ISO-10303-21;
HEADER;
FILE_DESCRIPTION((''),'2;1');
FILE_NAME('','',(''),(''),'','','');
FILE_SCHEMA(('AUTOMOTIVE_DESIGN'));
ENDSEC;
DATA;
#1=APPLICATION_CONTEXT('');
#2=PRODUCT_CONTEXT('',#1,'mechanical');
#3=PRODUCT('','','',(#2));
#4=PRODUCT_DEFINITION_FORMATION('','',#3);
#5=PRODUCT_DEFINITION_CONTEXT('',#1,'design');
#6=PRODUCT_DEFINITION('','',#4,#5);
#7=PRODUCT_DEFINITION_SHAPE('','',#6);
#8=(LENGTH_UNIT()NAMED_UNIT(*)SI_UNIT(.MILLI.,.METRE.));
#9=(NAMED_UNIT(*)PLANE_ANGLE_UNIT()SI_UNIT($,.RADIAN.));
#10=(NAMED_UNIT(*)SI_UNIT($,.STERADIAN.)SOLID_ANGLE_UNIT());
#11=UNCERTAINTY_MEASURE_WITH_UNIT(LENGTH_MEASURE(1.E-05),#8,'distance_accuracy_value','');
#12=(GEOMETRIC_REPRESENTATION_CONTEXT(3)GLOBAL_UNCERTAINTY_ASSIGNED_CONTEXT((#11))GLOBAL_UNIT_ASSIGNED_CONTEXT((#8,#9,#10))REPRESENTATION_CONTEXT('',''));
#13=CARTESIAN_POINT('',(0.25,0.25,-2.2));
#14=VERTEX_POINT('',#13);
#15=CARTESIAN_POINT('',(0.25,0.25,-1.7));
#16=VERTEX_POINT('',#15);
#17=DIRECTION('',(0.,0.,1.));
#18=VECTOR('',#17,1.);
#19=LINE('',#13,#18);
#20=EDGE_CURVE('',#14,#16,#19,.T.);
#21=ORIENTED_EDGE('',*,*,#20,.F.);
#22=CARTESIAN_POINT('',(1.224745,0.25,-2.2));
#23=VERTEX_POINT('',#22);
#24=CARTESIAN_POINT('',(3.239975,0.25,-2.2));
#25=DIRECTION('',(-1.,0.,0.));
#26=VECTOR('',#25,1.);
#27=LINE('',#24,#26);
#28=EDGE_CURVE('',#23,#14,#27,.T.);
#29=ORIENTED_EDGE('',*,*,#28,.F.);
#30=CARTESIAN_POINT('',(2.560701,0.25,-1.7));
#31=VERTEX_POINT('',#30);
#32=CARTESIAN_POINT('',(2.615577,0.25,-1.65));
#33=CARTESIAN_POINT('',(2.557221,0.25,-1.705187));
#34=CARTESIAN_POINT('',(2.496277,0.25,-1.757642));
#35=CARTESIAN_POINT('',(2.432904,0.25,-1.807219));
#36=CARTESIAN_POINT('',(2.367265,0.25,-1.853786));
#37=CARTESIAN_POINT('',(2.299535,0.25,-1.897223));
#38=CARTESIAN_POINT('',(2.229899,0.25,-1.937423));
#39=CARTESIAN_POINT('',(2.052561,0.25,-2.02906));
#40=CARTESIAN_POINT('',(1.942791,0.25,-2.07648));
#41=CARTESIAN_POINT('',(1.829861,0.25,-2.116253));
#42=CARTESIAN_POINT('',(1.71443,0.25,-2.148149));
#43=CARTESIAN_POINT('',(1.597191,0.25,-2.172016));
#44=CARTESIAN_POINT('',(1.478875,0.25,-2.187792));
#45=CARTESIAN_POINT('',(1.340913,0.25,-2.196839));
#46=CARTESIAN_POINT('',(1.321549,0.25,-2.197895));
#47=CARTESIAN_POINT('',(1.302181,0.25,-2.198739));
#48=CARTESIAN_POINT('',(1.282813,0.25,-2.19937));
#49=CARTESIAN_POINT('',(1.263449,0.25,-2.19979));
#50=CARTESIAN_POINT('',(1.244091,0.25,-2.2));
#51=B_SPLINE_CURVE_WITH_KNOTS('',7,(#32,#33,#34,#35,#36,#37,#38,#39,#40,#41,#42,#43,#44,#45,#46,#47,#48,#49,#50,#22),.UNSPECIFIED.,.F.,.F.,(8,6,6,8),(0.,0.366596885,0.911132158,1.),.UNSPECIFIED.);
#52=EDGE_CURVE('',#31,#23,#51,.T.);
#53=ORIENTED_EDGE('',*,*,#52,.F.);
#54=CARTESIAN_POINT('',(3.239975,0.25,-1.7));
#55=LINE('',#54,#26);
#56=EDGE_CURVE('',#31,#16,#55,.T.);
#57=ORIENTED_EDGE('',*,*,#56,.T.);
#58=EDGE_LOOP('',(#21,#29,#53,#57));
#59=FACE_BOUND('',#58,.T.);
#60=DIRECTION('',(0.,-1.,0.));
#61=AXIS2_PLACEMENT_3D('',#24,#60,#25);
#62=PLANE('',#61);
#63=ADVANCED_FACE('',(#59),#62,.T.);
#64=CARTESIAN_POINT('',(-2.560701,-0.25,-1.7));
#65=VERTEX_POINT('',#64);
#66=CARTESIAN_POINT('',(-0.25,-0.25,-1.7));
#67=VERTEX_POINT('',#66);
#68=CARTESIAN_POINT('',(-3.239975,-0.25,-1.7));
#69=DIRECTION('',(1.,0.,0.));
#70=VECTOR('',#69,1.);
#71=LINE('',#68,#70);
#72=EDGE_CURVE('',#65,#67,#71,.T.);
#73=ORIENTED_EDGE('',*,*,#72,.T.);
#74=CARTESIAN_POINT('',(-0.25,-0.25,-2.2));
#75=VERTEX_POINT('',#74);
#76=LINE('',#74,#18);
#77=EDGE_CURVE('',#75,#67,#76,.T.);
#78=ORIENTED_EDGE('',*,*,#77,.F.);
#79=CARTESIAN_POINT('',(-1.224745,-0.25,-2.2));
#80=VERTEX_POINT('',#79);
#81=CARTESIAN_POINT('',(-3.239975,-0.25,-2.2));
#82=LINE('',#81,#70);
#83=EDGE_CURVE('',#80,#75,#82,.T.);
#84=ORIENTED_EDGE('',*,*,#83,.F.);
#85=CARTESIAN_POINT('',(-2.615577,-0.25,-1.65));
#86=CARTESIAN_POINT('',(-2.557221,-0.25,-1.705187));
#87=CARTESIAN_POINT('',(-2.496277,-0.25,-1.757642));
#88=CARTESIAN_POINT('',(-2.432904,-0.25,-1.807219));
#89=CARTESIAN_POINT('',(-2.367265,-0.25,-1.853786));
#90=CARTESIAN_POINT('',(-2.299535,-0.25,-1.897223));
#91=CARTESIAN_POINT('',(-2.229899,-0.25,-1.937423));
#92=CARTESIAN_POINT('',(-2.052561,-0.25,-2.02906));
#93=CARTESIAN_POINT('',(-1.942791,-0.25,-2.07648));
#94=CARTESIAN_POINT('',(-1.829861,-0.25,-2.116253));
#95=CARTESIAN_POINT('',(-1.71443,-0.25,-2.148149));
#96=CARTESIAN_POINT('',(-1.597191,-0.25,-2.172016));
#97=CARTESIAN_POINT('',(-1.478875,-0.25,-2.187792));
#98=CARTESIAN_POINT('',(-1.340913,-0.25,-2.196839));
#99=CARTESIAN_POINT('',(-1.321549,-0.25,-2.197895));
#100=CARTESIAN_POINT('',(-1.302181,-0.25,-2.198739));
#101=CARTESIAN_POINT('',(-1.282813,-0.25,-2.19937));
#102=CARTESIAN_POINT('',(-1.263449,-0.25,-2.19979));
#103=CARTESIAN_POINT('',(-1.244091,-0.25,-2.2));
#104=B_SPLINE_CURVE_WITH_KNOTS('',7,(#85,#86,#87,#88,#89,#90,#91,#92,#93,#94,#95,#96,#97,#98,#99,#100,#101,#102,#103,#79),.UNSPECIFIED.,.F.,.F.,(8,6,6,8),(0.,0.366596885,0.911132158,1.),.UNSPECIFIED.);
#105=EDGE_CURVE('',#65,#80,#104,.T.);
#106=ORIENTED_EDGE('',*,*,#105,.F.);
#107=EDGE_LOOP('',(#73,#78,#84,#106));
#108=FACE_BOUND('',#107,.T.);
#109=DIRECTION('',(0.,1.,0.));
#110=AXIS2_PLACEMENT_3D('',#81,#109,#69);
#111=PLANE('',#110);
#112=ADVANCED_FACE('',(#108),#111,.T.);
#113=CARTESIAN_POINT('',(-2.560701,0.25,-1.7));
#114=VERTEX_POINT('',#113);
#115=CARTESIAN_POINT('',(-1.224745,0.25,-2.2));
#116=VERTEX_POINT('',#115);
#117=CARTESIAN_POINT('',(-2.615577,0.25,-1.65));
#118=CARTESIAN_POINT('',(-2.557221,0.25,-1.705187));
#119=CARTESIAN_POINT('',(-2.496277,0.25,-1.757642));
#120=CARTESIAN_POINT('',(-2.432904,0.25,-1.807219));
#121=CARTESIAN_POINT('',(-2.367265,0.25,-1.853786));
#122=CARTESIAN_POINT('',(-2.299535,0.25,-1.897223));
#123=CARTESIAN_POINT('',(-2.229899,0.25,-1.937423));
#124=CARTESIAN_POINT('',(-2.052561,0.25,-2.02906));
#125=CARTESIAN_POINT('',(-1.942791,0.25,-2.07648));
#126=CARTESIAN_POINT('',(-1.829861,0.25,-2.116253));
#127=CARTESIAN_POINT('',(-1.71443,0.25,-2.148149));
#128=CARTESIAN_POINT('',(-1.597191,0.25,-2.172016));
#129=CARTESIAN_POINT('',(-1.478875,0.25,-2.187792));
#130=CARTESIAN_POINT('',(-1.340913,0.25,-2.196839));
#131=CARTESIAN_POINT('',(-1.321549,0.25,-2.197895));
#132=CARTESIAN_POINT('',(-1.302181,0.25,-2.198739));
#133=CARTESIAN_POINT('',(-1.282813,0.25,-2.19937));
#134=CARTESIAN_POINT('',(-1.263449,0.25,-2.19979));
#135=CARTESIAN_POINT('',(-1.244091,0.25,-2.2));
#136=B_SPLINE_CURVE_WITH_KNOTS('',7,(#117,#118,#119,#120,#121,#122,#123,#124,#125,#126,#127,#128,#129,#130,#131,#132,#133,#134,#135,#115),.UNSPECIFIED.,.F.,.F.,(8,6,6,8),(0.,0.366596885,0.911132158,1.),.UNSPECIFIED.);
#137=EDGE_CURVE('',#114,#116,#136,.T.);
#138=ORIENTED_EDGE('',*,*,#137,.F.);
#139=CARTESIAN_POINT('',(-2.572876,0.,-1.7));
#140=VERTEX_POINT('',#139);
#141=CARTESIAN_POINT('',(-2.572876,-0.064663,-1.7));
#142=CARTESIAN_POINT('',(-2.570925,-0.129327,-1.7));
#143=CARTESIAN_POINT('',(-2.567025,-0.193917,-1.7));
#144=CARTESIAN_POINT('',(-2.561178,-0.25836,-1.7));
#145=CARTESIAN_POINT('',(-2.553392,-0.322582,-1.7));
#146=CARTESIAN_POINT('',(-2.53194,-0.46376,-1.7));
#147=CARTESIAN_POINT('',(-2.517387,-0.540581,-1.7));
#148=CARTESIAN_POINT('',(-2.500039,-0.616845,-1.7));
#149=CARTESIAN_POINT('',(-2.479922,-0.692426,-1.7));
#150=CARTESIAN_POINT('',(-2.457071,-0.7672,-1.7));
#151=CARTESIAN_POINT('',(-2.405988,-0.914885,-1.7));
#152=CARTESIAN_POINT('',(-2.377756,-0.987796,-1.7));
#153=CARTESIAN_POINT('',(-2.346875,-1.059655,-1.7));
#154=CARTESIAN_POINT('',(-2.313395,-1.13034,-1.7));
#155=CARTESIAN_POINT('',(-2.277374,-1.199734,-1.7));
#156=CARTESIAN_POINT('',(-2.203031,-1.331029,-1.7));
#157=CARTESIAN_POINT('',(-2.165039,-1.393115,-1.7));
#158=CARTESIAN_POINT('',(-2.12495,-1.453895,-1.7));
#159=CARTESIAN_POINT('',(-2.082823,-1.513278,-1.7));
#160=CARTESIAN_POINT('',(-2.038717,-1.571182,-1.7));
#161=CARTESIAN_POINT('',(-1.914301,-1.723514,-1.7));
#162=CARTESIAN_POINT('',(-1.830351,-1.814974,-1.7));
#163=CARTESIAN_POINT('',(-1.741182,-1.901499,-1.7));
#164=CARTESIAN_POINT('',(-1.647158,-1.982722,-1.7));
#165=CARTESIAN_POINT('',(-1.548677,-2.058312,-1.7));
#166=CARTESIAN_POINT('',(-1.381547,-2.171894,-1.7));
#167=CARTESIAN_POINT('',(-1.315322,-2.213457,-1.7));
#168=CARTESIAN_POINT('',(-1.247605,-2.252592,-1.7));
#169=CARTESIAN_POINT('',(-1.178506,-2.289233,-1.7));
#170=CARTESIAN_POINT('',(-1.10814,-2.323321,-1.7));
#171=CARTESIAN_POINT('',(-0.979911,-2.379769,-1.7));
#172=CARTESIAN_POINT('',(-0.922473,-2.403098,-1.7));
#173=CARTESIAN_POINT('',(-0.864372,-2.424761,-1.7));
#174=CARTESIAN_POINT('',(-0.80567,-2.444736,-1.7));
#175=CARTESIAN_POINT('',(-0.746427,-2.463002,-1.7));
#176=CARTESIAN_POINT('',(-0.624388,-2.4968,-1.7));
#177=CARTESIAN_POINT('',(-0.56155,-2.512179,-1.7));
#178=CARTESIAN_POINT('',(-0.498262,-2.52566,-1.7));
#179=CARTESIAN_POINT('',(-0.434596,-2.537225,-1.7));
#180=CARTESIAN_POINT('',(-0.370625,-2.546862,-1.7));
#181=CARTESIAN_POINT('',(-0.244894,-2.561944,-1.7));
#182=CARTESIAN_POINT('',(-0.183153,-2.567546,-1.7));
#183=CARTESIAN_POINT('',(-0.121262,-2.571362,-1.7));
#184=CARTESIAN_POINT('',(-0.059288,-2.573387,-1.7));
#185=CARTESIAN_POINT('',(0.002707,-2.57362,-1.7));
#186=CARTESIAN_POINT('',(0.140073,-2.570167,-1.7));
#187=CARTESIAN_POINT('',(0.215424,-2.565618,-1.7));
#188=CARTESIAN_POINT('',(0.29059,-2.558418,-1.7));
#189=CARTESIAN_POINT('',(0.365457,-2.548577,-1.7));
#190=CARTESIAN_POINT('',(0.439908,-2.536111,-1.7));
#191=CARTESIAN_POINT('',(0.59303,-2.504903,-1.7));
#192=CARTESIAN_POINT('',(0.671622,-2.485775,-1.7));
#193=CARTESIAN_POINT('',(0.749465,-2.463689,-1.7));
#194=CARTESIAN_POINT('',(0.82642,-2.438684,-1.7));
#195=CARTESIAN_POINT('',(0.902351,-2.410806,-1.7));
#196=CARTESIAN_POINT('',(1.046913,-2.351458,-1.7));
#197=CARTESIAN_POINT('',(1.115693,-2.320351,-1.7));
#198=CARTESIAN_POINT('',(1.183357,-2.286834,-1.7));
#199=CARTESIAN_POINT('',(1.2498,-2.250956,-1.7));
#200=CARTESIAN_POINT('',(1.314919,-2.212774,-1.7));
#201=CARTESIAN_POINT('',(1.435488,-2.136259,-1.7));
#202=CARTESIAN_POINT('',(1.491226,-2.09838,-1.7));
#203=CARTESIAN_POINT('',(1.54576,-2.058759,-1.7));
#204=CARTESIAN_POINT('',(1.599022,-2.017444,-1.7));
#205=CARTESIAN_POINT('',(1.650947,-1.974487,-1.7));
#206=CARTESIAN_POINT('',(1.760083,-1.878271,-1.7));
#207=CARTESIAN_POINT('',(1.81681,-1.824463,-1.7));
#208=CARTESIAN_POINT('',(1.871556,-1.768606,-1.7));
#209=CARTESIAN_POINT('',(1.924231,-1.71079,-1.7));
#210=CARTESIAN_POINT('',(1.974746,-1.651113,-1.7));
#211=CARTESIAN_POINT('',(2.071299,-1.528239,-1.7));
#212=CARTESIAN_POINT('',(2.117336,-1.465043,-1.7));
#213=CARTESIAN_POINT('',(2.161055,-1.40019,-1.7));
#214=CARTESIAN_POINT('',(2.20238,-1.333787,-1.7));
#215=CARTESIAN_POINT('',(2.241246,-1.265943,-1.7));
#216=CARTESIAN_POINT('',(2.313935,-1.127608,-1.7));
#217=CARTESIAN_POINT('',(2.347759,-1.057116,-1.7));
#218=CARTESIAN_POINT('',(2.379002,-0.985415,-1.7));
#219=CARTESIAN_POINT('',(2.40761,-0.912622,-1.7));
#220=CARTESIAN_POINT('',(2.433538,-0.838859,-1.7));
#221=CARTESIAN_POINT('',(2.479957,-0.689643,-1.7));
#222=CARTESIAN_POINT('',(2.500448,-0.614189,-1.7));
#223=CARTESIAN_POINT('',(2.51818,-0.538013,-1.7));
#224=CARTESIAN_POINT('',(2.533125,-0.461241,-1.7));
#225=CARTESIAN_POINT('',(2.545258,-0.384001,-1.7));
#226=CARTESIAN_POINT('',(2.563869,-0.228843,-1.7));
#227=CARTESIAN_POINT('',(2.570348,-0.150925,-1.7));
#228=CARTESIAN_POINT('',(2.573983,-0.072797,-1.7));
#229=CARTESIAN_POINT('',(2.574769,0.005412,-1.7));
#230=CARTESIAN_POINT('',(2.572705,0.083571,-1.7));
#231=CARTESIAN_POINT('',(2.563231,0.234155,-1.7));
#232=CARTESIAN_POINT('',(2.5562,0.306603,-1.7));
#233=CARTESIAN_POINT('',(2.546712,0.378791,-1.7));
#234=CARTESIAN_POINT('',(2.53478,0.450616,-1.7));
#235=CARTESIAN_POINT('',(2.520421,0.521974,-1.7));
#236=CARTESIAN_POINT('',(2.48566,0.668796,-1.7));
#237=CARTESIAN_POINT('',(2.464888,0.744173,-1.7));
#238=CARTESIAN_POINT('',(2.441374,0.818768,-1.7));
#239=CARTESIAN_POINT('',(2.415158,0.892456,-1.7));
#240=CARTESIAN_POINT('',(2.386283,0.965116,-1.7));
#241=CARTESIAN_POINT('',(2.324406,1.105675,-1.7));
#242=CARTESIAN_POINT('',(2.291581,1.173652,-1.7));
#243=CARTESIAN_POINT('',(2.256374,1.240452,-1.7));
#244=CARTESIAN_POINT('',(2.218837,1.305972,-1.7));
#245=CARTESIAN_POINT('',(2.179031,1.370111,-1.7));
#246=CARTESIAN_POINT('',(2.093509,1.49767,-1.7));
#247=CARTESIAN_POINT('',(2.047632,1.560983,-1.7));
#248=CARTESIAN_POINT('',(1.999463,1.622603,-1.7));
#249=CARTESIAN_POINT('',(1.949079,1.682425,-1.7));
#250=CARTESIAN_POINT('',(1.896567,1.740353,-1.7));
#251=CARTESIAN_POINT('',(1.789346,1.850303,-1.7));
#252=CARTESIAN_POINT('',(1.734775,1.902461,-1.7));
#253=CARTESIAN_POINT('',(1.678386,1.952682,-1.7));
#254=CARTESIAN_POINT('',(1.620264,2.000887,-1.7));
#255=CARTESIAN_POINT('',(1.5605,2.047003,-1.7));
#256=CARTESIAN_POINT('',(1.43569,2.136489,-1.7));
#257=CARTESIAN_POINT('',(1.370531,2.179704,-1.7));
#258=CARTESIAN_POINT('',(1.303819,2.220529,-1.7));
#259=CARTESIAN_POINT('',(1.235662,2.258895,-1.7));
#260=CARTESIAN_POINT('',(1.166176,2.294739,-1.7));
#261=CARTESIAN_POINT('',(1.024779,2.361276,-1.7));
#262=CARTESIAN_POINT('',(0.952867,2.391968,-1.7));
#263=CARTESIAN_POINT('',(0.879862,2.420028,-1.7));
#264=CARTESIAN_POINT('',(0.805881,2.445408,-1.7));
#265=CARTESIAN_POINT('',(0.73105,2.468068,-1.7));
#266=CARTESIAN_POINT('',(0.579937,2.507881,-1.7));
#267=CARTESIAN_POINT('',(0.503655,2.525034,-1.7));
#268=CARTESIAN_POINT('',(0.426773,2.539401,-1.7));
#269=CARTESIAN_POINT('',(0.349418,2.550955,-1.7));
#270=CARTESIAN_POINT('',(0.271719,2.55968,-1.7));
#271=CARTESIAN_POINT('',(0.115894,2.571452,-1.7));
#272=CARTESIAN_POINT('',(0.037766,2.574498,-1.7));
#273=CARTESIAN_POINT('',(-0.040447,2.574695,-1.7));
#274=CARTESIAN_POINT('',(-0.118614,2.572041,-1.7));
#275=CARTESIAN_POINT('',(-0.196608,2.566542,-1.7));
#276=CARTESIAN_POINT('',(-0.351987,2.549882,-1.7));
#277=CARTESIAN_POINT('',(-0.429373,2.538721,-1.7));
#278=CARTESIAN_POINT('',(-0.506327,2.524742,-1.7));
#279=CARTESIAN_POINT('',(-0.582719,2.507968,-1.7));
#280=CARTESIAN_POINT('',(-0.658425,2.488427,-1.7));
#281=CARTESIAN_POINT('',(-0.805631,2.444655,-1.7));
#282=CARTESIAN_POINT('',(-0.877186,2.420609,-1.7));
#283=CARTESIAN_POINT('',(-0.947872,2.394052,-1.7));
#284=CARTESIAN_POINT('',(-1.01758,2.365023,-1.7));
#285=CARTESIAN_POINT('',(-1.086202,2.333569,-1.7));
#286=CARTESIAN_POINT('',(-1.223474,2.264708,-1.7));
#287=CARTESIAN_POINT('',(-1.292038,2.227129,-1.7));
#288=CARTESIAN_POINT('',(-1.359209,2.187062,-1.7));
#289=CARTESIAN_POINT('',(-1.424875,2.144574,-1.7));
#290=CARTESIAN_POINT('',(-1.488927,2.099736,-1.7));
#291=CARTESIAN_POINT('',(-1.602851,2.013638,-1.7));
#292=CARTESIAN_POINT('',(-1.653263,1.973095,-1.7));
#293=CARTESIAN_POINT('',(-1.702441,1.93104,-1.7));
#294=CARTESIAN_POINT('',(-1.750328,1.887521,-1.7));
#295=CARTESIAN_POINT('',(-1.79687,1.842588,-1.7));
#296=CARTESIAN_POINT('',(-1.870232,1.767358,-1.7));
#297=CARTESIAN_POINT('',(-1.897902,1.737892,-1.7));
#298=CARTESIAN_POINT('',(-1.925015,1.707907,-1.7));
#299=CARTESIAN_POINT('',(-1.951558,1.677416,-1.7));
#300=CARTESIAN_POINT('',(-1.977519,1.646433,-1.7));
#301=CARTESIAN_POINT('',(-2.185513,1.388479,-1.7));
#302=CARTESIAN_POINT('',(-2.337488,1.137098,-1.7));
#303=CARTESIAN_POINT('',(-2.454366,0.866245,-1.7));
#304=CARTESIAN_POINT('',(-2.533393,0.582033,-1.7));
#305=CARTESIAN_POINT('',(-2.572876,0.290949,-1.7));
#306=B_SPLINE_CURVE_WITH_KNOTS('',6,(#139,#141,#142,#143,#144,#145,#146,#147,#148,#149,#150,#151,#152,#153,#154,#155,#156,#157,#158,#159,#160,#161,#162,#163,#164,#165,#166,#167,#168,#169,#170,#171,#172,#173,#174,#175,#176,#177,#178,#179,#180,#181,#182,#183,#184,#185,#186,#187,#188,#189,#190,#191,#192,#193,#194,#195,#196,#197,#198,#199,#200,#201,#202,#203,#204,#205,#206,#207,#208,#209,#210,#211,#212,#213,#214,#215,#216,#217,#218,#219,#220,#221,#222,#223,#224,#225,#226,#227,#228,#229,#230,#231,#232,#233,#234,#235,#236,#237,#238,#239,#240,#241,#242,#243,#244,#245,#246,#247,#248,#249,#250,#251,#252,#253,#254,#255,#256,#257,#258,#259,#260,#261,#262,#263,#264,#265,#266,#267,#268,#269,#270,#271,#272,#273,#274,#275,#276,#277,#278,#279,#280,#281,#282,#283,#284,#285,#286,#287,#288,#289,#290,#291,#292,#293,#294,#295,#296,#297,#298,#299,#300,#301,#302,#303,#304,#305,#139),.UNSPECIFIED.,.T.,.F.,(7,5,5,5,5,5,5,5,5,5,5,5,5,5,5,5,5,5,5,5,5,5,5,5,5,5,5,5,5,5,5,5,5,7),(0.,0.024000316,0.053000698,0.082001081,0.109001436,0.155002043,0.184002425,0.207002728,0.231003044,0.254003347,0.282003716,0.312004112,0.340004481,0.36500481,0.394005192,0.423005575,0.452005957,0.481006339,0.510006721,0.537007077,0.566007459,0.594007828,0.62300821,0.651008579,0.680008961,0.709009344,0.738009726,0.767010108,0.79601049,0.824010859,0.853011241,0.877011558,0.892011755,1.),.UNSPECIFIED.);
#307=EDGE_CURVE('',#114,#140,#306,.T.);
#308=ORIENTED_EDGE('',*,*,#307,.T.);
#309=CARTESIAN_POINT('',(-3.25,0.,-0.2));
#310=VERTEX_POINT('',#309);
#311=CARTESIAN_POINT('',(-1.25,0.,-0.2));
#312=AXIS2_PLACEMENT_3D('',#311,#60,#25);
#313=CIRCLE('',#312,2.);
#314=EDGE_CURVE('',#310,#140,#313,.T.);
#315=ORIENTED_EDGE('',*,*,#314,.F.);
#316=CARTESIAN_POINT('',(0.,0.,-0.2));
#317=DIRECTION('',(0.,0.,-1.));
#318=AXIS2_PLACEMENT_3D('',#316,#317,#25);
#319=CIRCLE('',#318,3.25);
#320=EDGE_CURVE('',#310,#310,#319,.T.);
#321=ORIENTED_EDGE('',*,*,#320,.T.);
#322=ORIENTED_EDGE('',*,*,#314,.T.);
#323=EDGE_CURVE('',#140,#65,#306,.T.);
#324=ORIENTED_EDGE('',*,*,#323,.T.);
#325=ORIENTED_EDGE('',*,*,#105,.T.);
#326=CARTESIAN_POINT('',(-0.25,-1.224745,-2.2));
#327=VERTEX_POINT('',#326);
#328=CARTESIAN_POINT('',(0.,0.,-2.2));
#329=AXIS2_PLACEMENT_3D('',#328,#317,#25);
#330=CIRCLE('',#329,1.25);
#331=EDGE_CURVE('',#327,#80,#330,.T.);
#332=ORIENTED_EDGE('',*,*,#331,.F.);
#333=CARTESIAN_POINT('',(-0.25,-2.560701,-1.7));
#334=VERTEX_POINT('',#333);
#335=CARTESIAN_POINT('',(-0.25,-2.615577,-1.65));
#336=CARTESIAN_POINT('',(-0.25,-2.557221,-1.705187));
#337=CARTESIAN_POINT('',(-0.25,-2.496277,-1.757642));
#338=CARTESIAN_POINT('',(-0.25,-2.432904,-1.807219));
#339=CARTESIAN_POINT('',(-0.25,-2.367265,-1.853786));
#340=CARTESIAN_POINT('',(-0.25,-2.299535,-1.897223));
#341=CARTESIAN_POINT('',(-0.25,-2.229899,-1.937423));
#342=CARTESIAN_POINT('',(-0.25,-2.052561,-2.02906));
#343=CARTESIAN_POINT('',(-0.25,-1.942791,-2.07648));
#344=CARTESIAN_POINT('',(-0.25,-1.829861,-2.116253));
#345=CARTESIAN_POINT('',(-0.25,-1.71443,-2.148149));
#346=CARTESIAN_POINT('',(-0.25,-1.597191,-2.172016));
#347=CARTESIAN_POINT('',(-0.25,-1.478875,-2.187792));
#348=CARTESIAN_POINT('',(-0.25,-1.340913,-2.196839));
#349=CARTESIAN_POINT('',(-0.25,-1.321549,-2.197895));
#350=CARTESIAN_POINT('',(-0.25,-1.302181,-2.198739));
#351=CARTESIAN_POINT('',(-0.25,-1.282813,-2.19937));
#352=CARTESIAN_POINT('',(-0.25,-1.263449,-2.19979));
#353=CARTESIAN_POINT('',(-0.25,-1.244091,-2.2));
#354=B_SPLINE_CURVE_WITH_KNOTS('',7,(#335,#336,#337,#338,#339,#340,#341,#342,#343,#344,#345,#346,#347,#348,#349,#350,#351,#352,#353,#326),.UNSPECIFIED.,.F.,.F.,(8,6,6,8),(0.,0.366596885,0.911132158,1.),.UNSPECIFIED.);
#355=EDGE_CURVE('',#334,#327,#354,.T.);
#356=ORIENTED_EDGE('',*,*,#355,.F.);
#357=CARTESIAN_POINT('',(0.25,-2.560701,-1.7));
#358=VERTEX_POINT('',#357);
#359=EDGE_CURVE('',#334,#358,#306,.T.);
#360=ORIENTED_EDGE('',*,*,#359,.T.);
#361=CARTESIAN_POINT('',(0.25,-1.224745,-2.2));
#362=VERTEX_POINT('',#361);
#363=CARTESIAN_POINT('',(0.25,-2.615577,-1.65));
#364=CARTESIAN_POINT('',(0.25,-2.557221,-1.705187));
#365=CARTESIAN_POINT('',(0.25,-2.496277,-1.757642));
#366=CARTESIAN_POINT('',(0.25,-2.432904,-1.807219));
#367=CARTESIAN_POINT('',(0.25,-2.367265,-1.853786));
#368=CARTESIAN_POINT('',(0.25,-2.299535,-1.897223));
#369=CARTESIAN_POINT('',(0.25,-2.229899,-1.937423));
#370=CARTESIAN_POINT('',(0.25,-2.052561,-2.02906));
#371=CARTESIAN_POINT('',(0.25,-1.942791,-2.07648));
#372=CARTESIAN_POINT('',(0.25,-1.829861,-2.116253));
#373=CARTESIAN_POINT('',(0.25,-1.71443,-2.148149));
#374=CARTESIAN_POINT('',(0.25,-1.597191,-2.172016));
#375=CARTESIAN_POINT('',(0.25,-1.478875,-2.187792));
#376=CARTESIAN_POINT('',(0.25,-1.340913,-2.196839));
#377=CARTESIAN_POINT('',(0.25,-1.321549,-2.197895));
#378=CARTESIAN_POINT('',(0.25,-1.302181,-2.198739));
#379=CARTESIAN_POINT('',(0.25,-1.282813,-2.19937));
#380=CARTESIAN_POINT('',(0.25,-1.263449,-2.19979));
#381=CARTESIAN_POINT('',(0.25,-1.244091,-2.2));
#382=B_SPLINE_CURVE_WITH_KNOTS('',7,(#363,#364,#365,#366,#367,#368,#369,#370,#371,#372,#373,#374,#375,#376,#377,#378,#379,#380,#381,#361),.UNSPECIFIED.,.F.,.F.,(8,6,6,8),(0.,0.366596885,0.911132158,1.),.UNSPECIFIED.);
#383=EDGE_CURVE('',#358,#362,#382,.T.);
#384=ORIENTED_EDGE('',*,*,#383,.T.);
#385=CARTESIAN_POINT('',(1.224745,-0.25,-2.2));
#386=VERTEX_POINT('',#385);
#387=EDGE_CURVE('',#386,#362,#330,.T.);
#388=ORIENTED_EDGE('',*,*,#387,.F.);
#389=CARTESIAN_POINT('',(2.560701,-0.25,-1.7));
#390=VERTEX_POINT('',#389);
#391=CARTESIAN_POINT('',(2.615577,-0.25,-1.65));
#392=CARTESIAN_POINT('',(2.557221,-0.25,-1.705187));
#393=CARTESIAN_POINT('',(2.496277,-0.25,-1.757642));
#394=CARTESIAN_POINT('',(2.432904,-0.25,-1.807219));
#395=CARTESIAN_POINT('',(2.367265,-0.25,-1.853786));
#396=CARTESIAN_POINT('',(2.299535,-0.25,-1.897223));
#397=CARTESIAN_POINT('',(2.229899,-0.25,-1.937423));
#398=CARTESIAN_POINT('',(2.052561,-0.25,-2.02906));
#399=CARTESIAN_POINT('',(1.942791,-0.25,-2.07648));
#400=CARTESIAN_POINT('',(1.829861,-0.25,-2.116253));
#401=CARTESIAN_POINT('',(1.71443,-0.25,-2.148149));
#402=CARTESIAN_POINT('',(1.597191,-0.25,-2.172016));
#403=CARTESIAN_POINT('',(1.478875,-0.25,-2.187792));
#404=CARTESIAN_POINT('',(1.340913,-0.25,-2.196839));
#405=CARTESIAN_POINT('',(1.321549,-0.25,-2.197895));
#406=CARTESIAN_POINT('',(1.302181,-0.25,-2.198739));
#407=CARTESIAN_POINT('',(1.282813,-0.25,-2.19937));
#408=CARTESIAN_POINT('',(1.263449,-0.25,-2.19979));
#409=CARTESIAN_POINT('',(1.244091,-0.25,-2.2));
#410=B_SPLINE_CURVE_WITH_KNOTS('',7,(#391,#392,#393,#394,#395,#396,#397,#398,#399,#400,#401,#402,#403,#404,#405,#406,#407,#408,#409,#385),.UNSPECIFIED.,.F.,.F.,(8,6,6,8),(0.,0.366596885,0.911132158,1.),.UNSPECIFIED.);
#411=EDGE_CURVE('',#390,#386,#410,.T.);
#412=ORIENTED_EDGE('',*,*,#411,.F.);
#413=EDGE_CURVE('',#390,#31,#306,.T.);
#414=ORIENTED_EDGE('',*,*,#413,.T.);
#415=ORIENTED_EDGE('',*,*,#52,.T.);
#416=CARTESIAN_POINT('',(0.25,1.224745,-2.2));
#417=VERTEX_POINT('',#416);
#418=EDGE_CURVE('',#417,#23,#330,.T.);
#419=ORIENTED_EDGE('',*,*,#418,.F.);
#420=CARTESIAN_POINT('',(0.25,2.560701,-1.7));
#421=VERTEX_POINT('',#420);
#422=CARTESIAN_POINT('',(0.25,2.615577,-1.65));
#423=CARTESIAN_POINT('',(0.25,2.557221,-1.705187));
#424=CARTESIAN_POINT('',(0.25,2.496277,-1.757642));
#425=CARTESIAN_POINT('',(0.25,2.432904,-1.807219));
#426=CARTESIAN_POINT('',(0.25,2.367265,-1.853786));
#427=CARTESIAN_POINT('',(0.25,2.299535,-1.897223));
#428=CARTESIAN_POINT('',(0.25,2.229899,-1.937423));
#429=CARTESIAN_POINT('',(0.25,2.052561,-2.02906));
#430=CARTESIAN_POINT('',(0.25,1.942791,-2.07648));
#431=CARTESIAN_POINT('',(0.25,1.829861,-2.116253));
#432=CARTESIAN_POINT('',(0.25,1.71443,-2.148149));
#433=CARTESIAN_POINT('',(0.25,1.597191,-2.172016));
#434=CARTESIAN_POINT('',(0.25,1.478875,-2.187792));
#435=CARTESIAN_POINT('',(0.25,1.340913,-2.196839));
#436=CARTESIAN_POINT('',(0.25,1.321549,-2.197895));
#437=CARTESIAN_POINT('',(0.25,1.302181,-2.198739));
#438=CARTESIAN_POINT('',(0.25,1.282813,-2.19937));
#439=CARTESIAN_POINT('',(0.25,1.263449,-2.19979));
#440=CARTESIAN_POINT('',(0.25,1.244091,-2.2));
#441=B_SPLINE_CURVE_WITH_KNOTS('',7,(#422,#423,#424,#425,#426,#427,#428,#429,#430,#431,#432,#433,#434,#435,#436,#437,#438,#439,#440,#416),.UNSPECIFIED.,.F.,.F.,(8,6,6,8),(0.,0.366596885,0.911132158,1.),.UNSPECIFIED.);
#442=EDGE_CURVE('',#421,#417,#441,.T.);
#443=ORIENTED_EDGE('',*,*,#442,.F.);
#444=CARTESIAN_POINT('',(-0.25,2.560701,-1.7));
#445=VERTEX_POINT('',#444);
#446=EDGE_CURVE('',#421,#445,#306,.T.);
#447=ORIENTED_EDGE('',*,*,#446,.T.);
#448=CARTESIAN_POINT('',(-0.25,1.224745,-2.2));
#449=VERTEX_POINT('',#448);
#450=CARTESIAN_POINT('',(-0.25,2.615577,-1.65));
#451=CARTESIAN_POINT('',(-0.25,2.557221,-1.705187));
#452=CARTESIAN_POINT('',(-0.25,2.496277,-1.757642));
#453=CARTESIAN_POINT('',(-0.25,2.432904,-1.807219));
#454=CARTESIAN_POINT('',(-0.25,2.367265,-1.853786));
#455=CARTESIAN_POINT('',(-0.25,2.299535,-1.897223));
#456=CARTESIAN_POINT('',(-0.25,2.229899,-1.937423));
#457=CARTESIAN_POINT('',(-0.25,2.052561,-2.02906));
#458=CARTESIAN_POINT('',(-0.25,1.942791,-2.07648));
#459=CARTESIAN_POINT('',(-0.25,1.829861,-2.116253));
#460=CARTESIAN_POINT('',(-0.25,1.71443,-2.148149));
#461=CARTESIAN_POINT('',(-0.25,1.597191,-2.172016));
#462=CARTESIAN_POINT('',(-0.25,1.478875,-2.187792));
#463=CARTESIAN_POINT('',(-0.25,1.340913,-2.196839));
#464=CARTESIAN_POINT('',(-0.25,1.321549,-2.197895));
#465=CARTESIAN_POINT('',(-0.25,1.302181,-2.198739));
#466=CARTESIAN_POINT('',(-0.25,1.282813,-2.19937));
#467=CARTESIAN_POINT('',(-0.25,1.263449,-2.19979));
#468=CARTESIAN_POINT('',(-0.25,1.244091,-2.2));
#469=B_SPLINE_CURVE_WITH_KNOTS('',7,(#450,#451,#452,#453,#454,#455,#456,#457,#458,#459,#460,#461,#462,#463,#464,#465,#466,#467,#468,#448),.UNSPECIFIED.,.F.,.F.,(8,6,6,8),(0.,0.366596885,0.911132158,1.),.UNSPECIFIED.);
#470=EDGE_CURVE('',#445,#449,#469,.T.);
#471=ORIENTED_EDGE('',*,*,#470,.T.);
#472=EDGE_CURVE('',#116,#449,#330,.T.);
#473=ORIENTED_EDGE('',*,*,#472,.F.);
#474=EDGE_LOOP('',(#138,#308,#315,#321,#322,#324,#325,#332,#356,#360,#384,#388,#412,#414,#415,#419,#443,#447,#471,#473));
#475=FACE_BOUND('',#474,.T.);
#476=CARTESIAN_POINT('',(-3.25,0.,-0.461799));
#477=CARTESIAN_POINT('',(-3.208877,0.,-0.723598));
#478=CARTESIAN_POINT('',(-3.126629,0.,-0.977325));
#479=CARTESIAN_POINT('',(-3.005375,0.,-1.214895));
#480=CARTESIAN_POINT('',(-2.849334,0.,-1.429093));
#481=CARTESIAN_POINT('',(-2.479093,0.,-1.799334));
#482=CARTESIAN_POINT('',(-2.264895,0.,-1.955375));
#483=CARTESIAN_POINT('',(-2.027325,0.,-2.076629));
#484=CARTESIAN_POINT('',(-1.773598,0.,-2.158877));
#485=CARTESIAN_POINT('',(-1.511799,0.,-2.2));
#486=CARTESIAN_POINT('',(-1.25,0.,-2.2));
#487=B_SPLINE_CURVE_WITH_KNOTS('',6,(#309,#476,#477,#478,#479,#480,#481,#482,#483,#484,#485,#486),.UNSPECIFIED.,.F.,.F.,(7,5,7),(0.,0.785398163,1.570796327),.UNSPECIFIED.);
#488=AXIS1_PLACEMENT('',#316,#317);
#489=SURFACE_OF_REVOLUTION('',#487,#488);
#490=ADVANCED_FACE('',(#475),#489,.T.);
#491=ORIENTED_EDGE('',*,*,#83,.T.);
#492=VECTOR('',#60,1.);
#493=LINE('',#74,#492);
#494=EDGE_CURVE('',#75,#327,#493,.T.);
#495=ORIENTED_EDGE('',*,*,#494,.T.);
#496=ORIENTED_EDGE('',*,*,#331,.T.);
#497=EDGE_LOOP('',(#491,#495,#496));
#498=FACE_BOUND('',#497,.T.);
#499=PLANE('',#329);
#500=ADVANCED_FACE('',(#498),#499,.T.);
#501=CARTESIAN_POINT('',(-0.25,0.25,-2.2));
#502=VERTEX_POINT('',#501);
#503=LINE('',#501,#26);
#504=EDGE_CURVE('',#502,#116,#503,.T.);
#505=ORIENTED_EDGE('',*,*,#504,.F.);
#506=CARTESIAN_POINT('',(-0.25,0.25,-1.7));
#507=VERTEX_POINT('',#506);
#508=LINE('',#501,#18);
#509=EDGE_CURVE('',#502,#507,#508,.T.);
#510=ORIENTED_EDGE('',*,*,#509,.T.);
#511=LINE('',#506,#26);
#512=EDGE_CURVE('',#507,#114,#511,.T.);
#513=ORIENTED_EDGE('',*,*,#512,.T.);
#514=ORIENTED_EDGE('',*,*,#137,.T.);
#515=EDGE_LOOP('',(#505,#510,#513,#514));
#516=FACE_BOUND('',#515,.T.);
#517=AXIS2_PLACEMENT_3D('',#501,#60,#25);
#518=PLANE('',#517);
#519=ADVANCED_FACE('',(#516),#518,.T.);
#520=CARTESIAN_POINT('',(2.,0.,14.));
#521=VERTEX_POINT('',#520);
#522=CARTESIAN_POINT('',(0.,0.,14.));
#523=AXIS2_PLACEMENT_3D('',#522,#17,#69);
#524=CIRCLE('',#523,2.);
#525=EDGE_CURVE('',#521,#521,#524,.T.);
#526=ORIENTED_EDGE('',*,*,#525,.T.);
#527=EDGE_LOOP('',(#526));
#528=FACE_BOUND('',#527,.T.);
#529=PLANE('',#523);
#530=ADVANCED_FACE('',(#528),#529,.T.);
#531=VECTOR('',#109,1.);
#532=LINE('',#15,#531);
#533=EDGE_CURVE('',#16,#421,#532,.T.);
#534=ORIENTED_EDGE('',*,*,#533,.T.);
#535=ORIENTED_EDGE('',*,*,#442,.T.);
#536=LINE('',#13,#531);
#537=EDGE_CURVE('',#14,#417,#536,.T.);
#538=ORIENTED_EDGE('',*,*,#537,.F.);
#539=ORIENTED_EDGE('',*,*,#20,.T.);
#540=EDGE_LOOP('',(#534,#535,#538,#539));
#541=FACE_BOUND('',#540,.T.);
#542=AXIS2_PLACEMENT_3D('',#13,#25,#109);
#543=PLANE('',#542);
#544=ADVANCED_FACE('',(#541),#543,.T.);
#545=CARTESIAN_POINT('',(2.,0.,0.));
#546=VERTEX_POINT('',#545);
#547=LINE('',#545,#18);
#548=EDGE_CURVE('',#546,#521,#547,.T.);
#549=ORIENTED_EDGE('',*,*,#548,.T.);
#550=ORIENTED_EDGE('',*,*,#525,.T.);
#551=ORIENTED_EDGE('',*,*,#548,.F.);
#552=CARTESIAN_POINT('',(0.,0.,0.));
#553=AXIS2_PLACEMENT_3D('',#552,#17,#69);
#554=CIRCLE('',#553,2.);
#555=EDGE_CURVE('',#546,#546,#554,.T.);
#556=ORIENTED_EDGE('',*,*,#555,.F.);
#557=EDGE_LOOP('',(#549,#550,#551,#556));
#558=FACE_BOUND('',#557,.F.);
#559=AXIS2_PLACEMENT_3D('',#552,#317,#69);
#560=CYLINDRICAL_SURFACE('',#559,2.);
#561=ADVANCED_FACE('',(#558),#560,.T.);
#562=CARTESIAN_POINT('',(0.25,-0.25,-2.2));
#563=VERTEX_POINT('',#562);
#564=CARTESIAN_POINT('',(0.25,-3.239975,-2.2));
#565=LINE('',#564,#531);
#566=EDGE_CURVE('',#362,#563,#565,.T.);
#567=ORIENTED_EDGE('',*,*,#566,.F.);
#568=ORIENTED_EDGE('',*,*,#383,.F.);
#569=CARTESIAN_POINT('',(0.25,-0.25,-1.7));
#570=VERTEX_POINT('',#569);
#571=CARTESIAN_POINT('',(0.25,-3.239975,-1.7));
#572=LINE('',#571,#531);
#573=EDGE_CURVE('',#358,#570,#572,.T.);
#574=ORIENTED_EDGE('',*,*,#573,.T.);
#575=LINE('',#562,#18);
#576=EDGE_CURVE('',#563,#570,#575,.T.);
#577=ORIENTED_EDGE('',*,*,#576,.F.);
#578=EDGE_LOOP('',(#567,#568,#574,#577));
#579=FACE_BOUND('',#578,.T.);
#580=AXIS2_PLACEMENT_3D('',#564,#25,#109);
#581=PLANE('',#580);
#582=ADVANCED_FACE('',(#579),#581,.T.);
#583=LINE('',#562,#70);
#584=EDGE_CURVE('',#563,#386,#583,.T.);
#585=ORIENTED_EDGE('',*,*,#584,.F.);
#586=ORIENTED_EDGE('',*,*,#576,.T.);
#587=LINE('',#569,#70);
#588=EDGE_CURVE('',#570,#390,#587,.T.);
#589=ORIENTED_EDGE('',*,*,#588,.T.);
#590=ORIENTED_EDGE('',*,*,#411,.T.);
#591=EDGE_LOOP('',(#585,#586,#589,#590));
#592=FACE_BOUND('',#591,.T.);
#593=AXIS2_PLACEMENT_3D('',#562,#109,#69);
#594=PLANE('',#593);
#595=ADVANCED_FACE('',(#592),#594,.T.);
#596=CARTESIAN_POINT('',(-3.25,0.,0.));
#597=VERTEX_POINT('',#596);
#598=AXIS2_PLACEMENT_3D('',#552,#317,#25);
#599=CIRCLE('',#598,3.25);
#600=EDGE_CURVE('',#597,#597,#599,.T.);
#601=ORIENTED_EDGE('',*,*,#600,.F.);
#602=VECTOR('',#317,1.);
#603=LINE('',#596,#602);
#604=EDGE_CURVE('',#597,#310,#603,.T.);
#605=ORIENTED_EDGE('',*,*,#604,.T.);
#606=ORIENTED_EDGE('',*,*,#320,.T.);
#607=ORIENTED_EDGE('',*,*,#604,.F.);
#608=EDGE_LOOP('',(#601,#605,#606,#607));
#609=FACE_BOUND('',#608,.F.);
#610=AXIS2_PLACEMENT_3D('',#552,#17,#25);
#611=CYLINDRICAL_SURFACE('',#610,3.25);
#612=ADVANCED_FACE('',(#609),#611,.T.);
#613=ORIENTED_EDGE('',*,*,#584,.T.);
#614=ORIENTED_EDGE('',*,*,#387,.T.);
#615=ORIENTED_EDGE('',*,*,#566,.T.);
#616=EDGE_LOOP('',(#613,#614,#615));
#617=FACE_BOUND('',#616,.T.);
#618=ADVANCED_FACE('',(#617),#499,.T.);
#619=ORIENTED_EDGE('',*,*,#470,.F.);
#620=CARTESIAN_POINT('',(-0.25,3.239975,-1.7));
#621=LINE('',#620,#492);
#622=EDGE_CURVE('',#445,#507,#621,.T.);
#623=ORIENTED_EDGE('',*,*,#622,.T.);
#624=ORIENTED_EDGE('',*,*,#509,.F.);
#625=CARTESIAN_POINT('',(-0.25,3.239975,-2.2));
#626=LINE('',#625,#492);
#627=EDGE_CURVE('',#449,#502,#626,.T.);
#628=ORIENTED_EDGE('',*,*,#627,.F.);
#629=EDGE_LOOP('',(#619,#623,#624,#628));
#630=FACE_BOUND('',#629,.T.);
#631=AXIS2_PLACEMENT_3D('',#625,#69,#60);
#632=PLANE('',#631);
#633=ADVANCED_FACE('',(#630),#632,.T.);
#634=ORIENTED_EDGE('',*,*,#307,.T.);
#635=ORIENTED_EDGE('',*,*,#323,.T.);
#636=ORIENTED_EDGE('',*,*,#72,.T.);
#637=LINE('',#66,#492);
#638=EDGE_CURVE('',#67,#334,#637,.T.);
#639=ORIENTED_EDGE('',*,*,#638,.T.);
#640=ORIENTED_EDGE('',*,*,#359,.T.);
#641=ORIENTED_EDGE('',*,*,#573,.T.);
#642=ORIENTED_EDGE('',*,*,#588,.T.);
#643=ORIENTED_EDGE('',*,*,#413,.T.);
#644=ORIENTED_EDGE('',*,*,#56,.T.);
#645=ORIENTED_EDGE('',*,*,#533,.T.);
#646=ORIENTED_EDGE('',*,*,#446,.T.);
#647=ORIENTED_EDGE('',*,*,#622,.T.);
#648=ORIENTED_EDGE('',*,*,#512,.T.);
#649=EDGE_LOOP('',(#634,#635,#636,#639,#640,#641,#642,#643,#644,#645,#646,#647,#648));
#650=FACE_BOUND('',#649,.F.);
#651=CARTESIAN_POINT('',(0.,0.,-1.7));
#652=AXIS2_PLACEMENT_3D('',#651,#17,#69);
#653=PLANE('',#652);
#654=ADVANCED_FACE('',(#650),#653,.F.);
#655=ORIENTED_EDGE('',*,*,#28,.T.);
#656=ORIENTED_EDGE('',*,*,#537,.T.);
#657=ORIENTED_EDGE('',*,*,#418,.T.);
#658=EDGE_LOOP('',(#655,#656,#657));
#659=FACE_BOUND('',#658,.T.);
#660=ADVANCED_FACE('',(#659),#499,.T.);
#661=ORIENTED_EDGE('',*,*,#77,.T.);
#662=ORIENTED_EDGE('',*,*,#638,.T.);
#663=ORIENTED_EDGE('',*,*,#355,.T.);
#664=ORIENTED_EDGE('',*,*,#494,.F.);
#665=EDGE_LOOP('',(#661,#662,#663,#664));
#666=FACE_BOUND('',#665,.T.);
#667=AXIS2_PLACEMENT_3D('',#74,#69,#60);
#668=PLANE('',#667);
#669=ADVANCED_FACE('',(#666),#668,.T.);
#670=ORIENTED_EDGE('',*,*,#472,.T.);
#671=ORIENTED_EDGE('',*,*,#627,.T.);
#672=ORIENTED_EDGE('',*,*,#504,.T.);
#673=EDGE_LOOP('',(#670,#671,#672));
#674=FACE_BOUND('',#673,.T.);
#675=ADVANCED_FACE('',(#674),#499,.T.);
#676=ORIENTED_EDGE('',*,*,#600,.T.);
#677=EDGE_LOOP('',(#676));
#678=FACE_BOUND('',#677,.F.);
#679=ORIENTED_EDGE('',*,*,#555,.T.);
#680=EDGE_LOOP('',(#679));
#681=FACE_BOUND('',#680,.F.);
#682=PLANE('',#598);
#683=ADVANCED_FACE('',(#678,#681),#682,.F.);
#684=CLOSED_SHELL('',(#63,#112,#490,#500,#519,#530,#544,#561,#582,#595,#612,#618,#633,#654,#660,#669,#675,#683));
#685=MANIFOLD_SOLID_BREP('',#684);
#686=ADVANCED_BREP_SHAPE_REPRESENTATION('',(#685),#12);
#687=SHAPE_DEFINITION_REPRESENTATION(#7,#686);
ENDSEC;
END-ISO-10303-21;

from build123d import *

# Parameters (mm, degrees)
SKETCH_1_R          = 2
EXTRUDE_1_DEPTH     = 14
SKETCH_2_R          = 3.25
EXTRUDE_2_DEPTH     = 2.2
FILLET_1_R          = 2
CUT_EXTRUDE_1_DEPTH = 0.5


with BuildPart() as part:
    # 草图1 → 凸台-拉伸1 (new body)
    with BuildSketch(Plane.XY):
        Circle(SKETCH_1_R)
    extrude(amount=EXTRUDE_1_DEPTH)

    # 草图2 → 凸台-拉伸2 (add)
    with BuildSketch(Plane(origin=(0, 0, 0), x_dir=(-1, 0, 0), z_dir=(0, 0, -1))):
        Circle(SKETCH_2_R)
    extrude(amount=EXTRUDE_2_DEPTH)

    # 圆角1
    fillet_1_edges = [part.edges().sort_by_distance(p)[0] for p in [
        (3.25, 0, -2.2),
    ]]
    fillet(fillet_1_edges, radius=FILLET_1_R)

    # 草图3 → 切除-拉伸1 (cut)
    with BuildSketch(Plane(origin=(0, 0, -2.2), x_dir=(-1, 0, 0), z_dir=(0, 0, -1))):
        Polygon((3.239974874, 0.25), (3.239974874, -0.25), (0.25, -0.25), (0.25, -3.239974874), (-0.25, -3.239974874), (-0.25, -0.25), (-3.239974874, -0.25), (-3.239974874, 0.25), (-0.25, 0.25), (-0.25, 3.239974874), (0.25, 3.239974874), (0.25, 0.25), align=None)
    extrude(amount=-CUT_EXTRUDE_1_DEPTH, mode=Mode.SUBTRACT)


solid = part.part
